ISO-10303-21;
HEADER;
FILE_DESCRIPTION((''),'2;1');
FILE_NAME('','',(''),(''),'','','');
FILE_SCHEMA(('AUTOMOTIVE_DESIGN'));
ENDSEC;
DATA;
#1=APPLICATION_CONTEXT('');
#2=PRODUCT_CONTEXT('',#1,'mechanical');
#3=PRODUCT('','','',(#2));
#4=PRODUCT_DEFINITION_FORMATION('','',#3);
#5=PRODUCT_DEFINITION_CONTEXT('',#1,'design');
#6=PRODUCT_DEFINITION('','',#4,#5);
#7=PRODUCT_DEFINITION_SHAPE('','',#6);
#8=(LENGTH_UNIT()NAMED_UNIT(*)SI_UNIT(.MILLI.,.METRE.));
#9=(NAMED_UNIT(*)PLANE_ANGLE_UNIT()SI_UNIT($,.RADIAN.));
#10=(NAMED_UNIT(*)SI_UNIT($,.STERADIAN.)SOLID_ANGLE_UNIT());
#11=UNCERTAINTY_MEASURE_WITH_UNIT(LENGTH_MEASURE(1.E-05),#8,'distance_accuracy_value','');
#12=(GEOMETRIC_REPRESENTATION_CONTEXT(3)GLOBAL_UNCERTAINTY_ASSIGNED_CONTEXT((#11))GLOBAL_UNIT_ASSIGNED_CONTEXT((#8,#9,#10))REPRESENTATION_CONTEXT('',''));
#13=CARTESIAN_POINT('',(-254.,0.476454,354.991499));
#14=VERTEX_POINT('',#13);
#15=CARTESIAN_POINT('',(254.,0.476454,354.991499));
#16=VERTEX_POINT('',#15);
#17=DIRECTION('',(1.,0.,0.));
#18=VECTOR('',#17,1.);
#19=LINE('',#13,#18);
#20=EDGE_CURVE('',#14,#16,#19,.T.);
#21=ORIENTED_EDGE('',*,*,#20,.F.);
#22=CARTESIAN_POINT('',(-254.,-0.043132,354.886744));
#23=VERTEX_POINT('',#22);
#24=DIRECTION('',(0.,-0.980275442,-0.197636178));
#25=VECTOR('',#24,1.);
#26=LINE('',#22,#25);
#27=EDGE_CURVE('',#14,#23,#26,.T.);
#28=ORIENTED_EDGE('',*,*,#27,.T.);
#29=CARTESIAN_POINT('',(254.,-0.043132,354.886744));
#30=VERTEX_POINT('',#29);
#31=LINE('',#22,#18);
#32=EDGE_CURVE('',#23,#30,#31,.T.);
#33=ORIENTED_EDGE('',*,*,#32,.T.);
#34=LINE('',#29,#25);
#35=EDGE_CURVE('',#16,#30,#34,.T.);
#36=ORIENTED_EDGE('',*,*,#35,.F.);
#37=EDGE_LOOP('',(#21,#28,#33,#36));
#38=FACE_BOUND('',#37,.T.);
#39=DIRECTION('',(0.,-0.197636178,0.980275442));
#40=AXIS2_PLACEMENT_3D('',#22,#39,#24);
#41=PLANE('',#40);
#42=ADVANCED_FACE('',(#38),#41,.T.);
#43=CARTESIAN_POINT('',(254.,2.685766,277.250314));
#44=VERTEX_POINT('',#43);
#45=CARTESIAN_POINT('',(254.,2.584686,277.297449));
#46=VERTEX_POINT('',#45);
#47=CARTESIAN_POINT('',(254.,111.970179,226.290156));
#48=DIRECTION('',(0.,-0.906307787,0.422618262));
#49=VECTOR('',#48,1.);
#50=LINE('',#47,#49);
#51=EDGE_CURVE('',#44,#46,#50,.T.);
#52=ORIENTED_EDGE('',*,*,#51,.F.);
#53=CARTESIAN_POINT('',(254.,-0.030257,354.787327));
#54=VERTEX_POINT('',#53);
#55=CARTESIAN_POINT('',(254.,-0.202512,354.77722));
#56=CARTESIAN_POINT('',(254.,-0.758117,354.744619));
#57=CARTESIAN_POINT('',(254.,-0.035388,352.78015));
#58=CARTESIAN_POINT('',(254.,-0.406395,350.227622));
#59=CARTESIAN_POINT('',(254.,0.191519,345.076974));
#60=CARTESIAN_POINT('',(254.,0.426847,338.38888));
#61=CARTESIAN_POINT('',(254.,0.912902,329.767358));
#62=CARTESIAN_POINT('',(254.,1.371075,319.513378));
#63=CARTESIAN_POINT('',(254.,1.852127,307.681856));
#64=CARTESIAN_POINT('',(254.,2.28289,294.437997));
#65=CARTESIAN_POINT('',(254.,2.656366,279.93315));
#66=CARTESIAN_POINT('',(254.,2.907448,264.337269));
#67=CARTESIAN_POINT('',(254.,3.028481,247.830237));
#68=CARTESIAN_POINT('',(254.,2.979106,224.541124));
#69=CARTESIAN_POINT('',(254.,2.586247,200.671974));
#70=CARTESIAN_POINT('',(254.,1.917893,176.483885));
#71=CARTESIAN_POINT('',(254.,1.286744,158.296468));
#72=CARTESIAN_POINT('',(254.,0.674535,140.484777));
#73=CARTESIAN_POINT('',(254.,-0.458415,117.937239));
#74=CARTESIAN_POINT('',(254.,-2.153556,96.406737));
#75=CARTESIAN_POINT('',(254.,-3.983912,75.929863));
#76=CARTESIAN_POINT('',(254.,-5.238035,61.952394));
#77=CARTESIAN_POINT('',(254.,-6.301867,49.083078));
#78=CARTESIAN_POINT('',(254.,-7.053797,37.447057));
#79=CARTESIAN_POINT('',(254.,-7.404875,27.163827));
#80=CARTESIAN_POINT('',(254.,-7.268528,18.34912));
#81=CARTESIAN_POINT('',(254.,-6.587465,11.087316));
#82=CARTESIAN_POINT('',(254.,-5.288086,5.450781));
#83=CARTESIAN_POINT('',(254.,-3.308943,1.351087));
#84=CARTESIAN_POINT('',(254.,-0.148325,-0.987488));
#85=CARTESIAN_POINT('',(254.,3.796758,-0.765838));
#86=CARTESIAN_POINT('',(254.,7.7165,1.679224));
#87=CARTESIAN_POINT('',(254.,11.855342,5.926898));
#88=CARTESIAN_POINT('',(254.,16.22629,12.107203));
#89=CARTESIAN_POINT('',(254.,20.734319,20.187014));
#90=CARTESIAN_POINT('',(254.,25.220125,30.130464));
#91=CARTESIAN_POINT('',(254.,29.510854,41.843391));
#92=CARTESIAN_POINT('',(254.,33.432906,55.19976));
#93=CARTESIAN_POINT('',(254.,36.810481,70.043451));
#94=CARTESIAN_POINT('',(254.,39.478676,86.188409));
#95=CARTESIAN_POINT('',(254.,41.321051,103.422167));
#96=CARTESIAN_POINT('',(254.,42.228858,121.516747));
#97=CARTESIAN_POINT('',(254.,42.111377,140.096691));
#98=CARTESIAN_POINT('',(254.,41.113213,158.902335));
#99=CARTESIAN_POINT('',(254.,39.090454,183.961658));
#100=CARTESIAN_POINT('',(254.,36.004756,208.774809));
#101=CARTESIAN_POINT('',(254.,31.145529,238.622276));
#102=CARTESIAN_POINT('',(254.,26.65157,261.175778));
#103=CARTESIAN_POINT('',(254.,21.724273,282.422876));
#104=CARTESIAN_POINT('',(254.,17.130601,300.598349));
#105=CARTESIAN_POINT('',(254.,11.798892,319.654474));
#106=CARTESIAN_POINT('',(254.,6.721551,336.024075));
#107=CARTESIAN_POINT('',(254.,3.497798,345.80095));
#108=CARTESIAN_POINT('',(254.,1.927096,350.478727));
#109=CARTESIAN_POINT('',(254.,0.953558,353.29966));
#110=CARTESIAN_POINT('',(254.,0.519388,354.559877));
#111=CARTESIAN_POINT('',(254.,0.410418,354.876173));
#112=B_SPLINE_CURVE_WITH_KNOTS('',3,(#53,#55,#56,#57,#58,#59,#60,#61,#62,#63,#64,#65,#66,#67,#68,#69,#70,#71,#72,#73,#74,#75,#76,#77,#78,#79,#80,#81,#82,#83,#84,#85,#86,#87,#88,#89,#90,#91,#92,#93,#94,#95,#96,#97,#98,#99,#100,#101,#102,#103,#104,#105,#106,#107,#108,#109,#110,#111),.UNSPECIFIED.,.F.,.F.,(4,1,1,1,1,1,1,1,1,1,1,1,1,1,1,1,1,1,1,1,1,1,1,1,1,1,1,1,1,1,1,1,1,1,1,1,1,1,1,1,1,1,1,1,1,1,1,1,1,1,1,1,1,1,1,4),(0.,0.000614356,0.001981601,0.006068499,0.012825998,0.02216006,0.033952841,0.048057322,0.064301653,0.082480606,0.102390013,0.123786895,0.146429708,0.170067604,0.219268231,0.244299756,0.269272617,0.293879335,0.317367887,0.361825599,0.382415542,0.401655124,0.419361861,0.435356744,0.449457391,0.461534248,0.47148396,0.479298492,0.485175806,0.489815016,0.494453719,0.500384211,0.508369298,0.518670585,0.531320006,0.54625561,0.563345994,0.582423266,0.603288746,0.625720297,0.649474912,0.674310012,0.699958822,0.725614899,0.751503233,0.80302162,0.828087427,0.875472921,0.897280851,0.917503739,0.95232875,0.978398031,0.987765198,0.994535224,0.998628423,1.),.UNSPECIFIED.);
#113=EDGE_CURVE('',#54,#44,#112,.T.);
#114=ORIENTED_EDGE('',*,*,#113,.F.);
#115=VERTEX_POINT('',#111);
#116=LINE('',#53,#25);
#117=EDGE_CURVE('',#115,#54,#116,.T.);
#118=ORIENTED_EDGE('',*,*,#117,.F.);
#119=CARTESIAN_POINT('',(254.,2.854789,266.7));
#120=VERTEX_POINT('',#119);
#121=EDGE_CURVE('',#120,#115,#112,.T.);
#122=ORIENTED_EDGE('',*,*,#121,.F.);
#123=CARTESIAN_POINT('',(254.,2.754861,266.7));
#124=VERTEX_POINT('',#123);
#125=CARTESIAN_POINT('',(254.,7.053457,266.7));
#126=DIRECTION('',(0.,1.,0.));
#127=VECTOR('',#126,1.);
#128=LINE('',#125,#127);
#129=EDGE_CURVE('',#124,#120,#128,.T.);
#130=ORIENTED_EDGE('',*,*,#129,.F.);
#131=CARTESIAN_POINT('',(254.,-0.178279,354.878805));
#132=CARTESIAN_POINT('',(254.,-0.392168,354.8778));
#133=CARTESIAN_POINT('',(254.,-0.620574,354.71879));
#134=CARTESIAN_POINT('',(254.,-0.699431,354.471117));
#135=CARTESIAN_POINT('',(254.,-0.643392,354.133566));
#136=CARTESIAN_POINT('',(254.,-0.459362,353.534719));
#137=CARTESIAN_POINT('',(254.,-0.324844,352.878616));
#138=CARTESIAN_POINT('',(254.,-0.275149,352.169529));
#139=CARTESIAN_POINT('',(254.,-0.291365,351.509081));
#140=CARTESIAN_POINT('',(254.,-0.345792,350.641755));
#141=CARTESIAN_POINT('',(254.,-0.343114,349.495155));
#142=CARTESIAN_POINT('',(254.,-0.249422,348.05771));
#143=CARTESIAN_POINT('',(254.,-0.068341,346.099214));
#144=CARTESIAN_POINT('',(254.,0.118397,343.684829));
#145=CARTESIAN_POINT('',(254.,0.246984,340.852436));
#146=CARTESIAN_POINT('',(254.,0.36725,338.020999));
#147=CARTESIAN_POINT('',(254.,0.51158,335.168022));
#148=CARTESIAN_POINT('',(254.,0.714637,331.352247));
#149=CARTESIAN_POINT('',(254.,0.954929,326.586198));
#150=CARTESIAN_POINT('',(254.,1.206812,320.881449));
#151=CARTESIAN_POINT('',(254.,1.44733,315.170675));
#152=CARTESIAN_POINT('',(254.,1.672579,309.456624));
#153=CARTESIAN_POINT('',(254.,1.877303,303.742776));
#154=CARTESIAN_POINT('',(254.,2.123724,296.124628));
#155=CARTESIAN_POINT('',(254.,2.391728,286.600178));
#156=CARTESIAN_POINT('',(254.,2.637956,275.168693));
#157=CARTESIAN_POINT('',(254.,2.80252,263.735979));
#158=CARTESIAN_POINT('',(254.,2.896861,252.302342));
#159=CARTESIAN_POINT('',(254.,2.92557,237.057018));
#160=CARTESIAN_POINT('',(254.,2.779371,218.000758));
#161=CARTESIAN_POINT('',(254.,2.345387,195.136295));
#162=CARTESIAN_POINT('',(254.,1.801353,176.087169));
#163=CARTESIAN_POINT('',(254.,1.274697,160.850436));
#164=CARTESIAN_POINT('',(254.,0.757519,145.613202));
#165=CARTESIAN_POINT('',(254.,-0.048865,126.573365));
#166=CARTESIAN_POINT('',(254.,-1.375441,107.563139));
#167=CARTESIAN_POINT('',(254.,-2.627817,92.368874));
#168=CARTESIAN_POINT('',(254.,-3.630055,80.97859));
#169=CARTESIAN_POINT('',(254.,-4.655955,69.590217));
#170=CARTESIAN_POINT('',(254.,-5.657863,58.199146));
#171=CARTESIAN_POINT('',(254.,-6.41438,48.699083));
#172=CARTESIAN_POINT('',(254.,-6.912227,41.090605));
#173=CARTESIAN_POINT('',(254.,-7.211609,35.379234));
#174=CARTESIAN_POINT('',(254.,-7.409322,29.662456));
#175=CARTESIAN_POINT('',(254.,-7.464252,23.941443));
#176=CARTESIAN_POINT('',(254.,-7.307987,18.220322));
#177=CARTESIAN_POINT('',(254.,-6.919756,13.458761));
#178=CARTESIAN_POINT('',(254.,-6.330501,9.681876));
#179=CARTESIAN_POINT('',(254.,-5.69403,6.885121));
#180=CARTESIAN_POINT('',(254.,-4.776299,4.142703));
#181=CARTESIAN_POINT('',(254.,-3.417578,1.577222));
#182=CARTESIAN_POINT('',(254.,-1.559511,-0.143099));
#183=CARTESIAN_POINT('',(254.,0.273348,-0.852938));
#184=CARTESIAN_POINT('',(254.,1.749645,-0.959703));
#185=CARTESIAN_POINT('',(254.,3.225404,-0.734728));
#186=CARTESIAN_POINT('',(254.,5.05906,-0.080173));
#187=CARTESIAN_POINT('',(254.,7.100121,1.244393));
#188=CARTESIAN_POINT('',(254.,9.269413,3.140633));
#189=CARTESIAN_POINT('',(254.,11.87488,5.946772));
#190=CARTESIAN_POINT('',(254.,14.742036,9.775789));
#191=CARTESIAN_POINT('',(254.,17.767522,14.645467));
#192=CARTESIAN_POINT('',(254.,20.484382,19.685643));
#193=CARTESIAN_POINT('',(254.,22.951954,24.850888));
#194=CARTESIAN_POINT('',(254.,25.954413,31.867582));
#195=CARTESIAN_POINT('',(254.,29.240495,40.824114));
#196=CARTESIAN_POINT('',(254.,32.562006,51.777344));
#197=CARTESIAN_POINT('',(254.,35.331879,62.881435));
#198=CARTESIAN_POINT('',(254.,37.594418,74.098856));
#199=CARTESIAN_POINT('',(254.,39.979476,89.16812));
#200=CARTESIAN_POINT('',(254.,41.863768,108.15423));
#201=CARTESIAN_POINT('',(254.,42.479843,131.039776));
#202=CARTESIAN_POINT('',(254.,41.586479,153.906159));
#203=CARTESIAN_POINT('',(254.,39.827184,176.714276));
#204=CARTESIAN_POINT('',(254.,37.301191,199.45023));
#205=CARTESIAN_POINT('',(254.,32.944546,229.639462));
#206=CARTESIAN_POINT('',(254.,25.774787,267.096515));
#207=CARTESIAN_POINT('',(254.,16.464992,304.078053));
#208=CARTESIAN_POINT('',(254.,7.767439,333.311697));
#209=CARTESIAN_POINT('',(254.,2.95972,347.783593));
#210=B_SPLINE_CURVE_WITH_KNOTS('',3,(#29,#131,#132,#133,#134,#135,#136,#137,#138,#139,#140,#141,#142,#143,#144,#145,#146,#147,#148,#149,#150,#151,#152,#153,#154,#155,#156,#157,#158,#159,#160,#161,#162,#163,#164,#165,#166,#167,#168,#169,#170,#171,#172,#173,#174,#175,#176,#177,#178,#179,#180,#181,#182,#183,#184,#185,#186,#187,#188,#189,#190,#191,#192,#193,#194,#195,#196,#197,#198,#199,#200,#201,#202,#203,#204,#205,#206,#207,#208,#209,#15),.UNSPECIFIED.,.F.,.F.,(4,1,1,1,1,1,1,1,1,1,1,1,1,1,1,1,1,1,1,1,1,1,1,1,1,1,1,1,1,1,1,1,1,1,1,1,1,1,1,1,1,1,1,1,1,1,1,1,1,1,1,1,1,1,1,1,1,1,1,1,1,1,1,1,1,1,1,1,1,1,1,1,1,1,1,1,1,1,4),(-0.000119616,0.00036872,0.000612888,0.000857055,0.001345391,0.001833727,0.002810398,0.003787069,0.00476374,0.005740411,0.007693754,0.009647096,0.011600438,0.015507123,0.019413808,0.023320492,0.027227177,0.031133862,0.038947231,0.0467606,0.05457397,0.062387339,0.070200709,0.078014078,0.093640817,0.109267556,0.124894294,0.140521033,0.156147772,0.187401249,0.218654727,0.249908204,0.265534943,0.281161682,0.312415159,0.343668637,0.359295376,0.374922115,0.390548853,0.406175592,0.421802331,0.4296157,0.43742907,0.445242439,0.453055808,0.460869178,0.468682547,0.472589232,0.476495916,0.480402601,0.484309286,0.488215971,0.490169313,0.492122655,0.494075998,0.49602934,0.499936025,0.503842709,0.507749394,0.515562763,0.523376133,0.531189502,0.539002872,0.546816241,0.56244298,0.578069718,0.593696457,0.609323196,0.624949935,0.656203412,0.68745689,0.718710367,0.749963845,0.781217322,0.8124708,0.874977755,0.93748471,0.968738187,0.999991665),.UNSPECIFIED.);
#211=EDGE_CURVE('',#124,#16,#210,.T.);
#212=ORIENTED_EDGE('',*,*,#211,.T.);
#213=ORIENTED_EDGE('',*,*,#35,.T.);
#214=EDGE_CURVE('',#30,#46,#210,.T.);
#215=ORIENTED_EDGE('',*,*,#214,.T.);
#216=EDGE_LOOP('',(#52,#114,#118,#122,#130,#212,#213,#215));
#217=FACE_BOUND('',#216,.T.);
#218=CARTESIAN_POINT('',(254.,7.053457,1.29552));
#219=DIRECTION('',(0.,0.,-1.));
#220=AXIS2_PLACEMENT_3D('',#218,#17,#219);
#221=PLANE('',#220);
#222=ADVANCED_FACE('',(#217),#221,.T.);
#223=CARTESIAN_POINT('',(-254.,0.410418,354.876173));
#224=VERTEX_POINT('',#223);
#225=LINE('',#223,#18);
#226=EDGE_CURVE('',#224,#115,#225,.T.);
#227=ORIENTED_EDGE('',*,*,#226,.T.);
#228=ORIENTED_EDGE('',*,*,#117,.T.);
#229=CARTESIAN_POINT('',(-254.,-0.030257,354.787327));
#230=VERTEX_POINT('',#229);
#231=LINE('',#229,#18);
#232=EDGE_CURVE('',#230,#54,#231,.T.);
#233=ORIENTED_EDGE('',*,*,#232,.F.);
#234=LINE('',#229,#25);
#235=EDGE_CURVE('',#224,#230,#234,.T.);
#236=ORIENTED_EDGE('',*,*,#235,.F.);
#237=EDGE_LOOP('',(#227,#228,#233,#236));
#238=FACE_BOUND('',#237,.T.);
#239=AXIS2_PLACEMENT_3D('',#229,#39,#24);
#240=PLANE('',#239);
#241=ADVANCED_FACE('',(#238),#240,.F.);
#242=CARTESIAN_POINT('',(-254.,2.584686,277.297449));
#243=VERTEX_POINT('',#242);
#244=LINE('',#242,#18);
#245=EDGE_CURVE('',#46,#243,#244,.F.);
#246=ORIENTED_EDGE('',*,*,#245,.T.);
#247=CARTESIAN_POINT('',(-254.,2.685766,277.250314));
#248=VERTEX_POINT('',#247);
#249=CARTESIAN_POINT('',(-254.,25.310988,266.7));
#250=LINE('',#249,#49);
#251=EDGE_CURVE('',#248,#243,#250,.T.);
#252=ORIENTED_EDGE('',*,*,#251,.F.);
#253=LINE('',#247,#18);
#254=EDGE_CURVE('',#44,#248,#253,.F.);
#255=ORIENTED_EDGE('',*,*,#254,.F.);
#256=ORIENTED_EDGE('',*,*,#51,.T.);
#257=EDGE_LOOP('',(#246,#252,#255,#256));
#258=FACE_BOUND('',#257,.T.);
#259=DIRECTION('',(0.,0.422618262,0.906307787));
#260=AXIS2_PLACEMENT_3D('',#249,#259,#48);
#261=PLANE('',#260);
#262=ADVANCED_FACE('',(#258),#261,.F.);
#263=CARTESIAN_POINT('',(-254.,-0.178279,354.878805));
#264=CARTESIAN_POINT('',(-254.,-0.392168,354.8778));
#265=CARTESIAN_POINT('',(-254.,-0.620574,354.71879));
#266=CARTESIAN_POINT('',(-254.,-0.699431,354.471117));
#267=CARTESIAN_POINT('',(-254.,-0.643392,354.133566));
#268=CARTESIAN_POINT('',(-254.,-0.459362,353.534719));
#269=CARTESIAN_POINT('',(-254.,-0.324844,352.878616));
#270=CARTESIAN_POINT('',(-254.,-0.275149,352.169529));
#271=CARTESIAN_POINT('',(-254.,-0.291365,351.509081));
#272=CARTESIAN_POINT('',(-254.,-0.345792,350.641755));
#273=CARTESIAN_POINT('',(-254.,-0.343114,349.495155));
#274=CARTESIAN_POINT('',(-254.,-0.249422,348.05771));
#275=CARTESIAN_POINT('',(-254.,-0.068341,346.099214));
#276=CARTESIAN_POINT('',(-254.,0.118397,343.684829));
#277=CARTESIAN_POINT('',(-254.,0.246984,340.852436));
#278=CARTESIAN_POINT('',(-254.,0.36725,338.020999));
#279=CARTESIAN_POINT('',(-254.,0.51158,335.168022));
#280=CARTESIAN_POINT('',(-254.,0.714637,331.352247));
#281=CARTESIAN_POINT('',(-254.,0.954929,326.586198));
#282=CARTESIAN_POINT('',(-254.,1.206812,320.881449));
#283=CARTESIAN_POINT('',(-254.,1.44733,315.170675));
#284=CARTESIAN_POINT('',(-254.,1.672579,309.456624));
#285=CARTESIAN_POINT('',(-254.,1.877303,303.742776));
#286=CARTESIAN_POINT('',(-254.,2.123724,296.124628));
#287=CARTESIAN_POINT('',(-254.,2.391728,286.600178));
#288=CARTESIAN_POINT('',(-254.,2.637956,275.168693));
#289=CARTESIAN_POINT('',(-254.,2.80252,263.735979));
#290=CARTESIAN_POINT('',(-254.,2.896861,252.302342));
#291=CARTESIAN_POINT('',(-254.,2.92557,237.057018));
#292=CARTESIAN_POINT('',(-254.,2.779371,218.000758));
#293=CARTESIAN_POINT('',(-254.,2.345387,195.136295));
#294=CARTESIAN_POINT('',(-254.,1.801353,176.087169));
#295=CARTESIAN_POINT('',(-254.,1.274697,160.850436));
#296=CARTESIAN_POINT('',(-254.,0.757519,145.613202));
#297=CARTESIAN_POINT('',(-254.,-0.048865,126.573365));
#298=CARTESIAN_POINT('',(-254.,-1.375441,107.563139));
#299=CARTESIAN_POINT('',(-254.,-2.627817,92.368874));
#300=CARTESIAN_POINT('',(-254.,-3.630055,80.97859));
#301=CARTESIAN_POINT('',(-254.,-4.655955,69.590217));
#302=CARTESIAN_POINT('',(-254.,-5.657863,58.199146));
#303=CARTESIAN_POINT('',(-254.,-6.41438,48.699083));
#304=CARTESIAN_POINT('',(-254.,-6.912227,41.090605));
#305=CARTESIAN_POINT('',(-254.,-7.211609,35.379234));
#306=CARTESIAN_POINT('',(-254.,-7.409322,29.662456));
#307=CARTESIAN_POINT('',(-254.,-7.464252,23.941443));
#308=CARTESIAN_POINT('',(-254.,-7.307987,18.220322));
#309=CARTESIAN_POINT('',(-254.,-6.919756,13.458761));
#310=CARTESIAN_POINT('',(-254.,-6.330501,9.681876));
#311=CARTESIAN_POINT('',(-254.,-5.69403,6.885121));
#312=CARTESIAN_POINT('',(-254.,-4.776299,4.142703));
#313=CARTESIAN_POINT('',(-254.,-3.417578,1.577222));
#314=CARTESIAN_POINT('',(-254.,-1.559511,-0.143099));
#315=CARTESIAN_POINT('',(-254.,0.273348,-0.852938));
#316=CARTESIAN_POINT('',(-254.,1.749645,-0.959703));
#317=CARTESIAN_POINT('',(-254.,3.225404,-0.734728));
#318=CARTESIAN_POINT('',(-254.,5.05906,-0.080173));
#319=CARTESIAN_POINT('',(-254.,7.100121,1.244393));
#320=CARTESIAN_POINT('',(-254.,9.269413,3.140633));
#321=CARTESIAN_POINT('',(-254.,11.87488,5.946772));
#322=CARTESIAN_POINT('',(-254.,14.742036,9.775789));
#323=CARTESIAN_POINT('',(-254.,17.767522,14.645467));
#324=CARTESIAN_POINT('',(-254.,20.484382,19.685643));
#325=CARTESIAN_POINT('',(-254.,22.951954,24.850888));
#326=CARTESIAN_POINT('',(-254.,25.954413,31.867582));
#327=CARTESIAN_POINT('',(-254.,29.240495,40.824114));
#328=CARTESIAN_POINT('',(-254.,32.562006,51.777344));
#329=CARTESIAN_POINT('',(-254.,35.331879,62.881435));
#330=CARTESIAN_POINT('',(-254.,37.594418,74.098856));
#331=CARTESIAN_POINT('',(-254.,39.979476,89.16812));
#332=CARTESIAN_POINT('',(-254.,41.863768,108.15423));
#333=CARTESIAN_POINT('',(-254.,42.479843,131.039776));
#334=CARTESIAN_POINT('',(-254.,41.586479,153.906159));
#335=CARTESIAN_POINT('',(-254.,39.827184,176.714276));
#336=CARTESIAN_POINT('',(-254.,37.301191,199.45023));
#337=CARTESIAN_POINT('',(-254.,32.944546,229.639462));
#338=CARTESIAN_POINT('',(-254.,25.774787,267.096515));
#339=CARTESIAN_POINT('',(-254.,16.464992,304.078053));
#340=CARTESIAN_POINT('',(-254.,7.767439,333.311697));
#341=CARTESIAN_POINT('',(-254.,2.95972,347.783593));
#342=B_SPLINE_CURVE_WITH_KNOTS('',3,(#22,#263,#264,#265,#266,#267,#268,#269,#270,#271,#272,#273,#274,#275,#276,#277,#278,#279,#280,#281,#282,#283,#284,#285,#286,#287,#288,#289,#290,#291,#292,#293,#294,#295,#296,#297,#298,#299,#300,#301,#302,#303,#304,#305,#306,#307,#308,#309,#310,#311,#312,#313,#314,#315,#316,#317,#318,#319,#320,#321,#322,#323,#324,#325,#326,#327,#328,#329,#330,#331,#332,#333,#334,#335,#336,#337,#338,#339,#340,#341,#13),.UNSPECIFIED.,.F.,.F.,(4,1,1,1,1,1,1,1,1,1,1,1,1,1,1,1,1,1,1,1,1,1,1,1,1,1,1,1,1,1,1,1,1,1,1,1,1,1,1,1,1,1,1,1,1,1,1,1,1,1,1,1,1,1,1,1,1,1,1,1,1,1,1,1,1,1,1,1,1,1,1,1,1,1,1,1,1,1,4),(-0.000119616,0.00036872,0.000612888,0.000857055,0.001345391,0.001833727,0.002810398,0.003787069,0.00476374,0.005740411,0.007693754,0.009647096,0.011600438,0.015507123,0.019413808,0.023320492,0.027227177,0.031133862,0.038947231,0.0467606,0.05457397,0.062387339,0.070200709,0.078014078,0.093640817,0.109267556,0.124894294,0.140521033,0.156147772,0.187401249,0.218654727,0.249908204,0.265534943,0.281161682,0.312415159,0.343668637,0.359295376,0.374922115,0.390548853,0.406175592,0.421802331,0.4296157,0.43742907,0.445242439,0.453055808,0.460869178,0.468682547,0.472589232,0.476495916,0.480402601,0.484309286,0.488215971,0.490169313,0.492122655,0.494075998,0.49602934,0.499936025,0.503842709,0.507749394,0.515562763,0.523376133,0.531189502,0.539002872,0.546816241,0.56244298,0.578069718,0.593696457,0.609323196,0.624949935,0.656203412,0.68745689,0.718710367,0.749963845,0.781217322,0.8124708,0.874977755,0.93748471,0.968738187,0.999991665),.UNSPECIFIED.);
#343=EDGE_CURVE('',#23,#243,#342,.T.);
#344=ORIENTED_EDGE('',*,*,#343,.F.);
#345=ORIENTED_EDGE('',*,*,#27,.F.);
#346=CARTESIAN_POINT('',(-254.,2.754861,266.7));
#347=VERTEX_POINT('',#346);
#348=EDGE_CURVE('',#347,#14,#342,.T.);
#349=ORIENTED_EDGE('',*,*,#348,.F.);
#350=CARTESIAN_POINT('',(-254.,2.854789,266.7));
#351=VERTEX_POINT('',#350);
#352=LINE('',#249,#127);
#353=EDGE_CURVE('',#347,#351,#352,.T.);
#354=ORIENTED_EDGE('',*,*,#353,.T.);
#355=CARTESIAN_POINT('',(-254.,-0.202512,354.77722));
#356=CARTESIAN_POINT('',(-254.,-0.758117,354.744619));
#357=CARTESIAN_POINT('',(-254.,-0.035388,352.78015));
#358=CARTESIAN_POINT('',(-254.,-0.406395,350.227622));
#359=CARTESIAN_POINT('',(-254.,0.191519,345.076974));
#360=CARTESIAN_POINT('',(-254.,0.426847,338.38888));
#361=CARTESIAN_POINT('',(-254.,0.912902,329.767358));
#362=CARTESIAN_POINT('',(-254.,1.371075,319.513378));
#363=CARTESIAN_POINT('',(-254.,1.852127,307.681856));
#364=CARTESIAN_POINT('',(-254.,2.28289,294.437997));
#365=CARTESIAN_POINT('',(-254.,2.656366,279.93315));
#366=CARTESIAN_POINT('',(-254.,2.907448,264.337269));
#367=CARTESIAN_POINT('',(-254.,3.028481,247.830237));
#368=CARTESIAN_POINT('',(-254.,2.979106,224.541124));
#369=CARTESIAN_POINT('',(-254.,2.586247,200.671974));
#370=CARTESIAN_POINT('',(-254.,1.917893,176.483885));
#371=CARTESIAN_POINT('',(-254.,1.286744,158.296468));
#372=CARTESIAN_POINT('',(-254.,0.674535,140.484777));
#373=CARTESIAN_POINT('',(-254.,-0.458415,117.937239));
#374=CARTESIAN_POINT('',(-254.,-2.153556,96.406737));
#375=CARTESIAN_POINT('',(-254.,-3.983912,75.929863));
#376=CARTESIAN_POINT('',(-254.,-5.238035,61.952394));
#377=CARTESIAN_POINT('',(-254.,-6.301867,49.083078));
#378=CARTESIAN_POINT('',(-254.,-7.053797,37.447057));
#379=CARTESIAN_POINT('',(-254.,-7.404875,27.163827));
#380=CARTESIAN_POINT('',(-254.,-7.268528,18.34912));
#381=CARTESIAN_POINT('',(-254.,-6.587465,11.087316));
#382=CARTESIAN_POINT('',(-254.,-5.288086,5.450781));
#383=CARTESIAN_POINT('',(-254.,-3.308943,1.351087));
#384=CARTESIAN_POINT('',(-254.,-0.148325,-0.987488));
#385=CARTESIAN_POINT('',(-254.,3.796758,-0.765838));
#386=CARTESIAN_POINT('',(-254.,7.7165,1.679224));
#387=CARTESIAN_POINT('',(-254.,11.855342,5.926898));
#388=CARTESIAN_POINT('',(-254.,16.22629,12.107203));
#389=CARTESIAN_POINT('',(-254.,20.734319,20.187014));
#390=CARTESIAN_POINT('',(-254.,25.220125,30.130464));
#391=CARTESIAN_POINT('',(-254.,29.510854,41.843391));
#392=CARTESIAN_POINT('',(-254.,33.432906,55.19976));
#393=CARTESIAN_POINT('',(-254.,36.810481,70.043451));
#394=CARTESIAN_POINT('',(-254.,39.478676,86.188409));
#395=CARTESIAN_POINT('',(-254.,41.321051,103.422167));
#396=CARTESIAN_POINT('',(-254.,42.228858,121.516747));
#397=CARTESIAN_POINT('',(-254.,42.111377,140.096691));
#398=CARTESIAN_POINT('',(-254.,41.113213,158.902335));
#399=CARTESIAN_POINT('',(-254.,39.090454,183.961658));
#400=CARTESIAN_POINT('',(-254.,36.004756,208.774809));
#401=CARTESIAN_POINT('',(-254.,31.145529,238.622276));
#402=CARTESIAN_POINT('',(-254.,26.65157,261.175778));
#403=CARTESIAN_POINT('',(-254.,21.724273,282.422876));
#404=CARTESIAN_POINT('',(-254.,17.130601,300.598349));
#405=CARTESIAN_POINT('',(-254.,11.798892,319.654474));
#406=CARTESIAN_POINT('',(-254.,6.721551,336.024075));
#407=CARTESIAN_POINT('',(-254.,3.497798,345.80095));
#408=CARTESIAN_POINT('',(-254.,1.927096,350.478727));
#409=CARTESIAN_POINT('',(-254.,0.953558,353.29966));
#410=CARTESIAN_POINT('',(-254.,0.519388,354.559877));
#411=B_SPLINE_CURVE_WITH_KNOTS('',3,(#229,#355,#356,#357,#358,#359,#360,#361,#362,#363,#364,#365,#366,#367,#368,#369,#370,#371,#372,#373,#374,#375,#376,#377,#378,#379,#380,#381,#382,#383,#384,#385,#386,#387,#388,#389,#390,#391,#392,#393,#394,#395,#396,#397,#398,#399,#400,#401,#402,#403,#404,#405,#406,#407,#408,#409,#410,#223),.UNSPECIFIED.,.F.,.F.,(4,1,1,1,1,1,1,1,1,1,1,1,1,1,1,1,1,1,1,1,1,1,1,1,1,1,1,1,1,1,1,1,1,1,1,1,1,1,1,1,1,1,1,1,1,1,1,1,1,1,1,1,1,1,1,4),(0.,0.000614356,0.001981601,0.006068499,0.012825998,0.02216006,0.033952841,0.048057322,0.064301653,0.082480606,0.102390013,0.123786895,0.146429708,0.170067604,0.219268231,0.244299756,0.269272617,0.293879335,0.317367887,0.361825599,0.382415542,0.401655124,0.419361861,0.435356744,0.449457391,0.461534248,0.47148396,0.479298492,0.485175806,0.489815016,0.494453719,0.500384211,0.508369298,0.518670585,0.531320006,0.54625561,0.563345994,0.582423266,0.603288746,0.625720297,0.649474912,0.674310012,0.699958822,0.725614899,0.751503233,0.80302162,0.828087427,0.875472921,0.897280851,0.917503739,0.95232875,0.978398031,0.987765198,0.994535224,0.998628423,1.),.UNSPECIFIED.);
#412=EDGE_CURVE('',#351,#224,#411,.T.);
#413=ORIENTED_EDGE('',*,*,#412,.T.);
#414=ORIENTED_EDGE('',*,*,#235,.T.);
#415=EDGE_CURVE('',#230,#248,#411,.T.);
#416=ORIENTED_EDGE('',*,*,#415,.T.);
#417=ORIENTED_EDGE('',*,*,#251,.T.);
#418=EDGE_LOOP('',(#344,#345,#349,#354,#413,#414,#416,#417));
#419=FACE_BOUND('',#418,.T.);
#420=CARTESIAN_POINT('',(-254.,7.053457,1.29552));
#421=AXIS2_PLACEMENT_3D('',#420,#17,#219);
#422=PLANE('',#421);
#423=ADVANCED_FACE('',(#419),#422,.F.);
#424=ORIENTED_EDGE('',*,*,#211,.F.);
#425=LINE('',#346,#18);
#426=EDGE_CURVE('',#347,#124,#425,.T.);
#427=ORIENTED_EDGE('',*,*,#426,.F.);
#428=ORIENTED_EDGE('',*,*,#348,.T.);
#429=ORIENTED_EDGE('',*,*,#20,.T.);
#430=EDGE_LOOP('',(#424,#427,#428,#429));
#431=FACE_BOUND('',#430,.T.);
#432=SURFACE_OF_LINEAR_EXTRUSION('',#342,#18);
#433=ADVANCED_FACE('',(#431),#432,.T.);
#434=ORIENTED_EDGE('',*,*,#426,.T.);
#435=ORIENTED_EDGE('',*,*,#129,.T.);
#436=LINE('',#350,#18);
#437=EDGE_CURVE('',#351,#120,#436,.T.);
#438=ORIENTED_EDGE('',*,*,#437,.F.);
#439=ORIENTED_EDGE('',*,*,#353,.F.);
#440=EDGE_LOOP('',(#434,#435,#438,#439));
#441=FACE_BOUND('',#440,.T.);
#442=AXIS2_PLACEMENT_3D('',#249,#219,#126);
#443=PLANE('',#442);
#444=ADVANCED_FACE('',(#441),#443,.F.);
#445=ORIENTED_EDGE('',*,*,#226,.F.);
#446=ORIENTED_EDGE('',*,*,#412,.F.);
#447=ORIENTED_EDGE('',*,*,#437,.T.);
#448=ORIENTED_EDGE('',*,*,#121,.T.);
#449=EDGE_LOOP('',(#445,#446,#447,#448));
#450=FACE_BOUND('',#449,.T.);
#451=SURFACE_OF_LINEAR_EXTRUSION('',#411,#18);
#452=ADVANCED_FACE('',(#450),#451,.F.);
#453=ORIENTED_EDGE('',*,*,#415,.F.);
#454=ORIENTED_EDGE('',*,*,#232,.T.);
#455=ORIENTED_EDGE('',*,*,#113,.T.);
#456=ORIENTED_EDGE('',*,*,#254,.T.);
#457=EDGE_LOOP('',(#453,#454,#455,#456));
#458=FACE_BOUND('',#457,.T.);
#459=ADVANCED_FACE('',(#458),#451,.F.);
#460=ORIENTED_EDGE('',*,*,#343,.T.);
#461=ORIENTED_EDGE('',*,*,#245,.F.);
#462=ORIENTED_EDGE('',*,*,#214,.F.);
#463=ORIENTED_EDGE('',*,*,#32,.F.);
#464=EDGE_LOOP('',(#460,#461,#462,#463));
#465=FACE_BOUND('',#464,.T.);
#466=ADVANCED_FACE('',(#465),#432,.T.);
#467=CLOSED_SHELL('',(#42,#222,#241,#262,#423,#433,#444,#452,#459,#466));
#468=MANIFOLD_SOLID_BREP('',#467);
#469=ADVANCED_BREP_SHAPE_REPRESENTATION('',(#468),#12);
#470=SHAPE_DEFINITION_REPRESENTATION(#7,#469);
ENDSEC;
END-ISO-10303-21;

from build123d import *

# Parameters (mm, degrees)
BOSS_EXTRUDE1_DEPTH      = 254
BOSS_EXTRUDE1_DEPTH_BACK = 254
CUT_EXTRUDE1_DEPTH       = 439.541591567
CUT_EXTRUDE1_DEPTH_BACK  = 439.541591567


with BuildPart() as part:
    # Sketch1 → Boss-Extrude1 (new, two sides: drawn at the far end of the back side and taken through both)
    with BuildSketch(Plane(origin=(0, 0, 0), x_dir=(0, 0, -1), z_dir=(1, 0, 0)).offset(-BOSS_EXTRUDE1_DEPTH_BACK)):
        with BuildLine():
            Line((-354.886743617, -0.043132144), (-354.99149892, 0.476454159))
            add(Edge.make_bspline(
                [(-354.99149892, 0.476454159), (-347.783593071, 2.959720022), (-333.311697469, 7.76743875), (-304.078052973, 16.464991966), (-267.096515494, 25.774786648), (-229.639462396, 32.944545613), (-199.450230249, 37.301190717), (-176.714275569, 39.827183694), (-153.906158518, 41.58647891), (-131.03977612, 42.479842921), (-108.154229955, 41.863767742), (-89.168120213, 39.979475533), (-74.098856377, 37.594417698), (-62.881435173, 35.331879377), (-51.7773445, 32.562006126), (-40.824113666, 29.240494899), (-31.867581604, 25.954413067), (-24.850887862, 22.951954032), (-19.685642534, 20.484382266), (-14.645467459, 17.767522296), (-9.77578942, 14.742035882), (-5.946772155, 11.874879811), (-3.140632771, 9.269412602), (-1.24439325, 7.100121216), (0.080172615, 5.059059621), (0.734728016, 3.225404373), (0.959702576, 1.749644514), (0.852938138, 0.273348057), (0.143098613, -1.559511436), (-1.577222389, -3.417578203), (-4.142703198, -4.776298794), (-6.885121223, -5.694029747), (-9.681876117, -6.330501065), (-13.458760778, -6.919755633), (-18.220322024, -7.307987073), (-23.94144297, -7.464251794), (-29.662456321, -7.409321836), (-35.379234273, -7.211608771), (-41.090605222, -6.912227315), (-48.699082932, -6.414379812), (-58.199146289, -5.657863194), (-69.590216516, -4.65595538), (-80.978589908, -3.630054837), (-92.368874257, -2.627816782), (-107.56313892, -1.375441372), (-126.573365315, -0.048864739), (-145.613201917, 0.757519293), (-160.850436225, 1.274697119), (-176.087168981, 1.801353096), (-195.136294848, 2.345387362), (-218.000758012, 2.779371126), (-237.05701774, 2.925569666), (-252.302341579, 2.896860798), (-263.73597927, 2.802520029), (-275.168693373, 2.637956293), (-286.600178358, 2.391728354), (-296.124627961, 2.123723762), (-303.742775876, 1.877302738), (-309.456624125, 1.672578754), (-315.170675094, 1.447330006), (-320.881449306, 1.206811952), (-326.586197896, 0.954928725), (-331.352247356, 0.714636978), (-335.168021523, 0.511580202), (-338.020999346, 0.36724993), (-340.852436227, 0.246984365), (-343.684829351, 0.118397327), (-346.099213672, -0.068340914), (-348.057709576, -0.249421829), (-349.49515544, -0.343114156), (-350.641754644, -0.345792204), (-351.509080841, -0.291364997), (-352.169529456, -0.275148661), (-352.878616179, -0.32484418), (-353.534718925, -0.45936157), (-354.133565705, -0.643391605), (-354.471117086, -0.699431405), (-354.718790465, -0.620573956), (-354.877800433, -0.392167923), (-354.878804645, -0.178279335), (-354.886743617, -0.043132144)],
                knots=[-0.000119616, -0.000119616, -0.000119616, -0.000119616, 0.031133862, 0.062387339, 0.124894294, 0.187401249, 0.218654727, 0.249908204, 0.281161682, 0.312415159, 0.343668637, 0.374922115, 0.390548853, 0.406175592, 0.421802331, 0.43742907, 0.453055808, 0.460869178, 0.468682547, 0.476495916, 0.484309286, 0.492122655, 0.49602934, 0.499936025, 0.503842709, 0.505796052, 0.507749394, 0.509702736, 0.511656079, 0.515562763, 0.519469448, 0.523376133, 0.527282817, 0.531189502, 0.539002872, 0.546816241, 0.55462961, 0.56244298, 0.570256349, 0.578069718, 0.593696457, 0.609323196, 0.624949935, 0.640576673, 0.656203412, 0.68745689, 0.718710367, 0.734337106, 0.749963845, 0.781217322, 0.8124708, 0.843724277, 0.859351016, 0.874977755, 0.890604494, 0.906231232, 0.921857971, 0.929671341, 0.93748471, 0.945298079, 0.953111449, 0.960924818, 0.968738187, 0.972644872, 0.976551557, 0.980458242, 0.984364926, 0.988271611, 0.990224953, 0.992178296, 0.994131638, 0.995108309, 0.99608498, 0.997061652, 0.998038323, 0.998526658, 0.999014994, 0.999259162, 0.999503329, 0.999991665, 0.999991665, 0.999991665, 0.999991665], degree=3))
        make_face()
        with BuildLine():
            Line((-354.787327228, -0.030257196), (-354.876173011, 0.410417887))
            add(Edge.make_bspline(
                [(-354.876173011, 0.410417887), (-354.559877309, 0.519388), (-353.29965963, 0.95355787), (-350.47872665, 1.927095868), (-345.800950265, 3.497798274), (-336.024074692, 6.721551148), (-319.654473712, 11.798891927), (-300.598349456, 17.130600639), (-282.422876264, 21.724272526), (-261.175777938, 26.651569731), (-238.622276389, 31.145528798), (-208.774809213, 36.004755717), (-183.96165787, 39.090454058), (-158.902335219, 41.113212891), (-140.096691022, 42.111376668), (-121.516747473, 42.228858195), (-103.422167262, 41.321050632), (-86.188408528, 39.478676181), (-70.043450957, 36.810480574), (-55.199760436, 33.432905997), (-41.843390777, 29.510854383), (-30.130463623, 25.220125297), (-20.187014188, 20.73431935), (-12.107203154, 16.226289935), (-5.926897661, 11.855341958), (-1.679224073, 7.716499794), (0.765838065, 3.796757813), (0.987487677, -0.148325216), (-1.35108726, -3.308943186), (-5.450780885, -5.288085739), (-11.087315968, -6.587464624), (-18.34911979, -7.268527656), (-27.163826626, -7.404874951), (-37.447057223, -7.053797092), (-49.083078017, -6.301866785), (-61.95239395, -5.238034817), (-75.929862643, -3.983911698), (-96.406736552, -2.153555858), (-117.937239158, -0.458414508), (-140.484776897, 0.674535203), (-158.296467959, 1.286744043), (-176.48388462, 1.917893193), (-200.671973719, 2.586246563), (-224.541124114, 2.979106232), (-247.830237405, 3.028480659), (-264.337268621, 2.907447598), (-279.933149694, 2.656365926), (-294.437996632, 2.282890374), (-307.681856469, 1.852126627), (-319.513378006, 1.371074809), (-329.767358246, 0.912902227), (-338.388880463, 0.426846955), (-345.076973543, 0.191518705), (-350.227621538, -0.406394891), (-352.780150329, -0.035387827), (-354.744619464, -0.75811662), (-354.777220059, -0.20251155), (-354.787327228, -0.030257196)],
                knots=[0, 0, 0, 0, 0.001371577, 0.005464776, 0.012234802, 0.021601969, 0.04767125, 0.082496261, 0.102719149, 0.124527079, 0.171912573, 0.19697838, 0.248496767, 0.274385101, 0.300041178, 0.325689988, 0.350525088, 0.374279703, 0.396711254, 0.417576734, 0.436654006, 0.45374439, 0.468679994, 0.481329415, 0.491630702, 0.499615789, 0.505546281, 0.510184984, 0.514824194, 0.520701508, 0.52851604, 0.538465752, 0.550542609, 0.564643256, 0.580638139, 0.598344876, 0.617584458, 0.638174401, 0.682632113, 0.706120665, 0.730727383, 0.755700244, 0.780731769, 0.829932396, 0.853570292, 0.876213105, 0.897609987, 0.917519394, 0.935698347, 0.951942678, 0.966047159, 0.97783994, 0.987174002, 0.993931501, 0.998018399, 0.999385644, 1, 1, 1, 1], degree=3))
        make_face(mode=Mode.SUBTRACT)
    extrude(amount=BOSS_EXTRUDE1_DEPTH + BOSS_EXTRUDE1_DEPTH_BACK)

    # Sketch2 → Cut-Extrude1 (cut, two sides: drawn at the far end of the back side and taken through both)
    with BuildSketch(Plane(origin=(0, 0, 0), x_dir=(0, 0, -1), z_dir=(1, 0, 0)).offset(-CUT_EXTRUDE1_DEPTH_BACK)):
        Polygon((-266.7, 25.310988042), (-266.7, -28.097024663), (-291.604565331, -28.097024663), align=None)
    extrude(amount=CUT_EXTRUDE1_DEPTH + CUT_EXTRUDE1_DEPTH_BACK, mode=Mode.SUBTRACT)


solid = part.part
